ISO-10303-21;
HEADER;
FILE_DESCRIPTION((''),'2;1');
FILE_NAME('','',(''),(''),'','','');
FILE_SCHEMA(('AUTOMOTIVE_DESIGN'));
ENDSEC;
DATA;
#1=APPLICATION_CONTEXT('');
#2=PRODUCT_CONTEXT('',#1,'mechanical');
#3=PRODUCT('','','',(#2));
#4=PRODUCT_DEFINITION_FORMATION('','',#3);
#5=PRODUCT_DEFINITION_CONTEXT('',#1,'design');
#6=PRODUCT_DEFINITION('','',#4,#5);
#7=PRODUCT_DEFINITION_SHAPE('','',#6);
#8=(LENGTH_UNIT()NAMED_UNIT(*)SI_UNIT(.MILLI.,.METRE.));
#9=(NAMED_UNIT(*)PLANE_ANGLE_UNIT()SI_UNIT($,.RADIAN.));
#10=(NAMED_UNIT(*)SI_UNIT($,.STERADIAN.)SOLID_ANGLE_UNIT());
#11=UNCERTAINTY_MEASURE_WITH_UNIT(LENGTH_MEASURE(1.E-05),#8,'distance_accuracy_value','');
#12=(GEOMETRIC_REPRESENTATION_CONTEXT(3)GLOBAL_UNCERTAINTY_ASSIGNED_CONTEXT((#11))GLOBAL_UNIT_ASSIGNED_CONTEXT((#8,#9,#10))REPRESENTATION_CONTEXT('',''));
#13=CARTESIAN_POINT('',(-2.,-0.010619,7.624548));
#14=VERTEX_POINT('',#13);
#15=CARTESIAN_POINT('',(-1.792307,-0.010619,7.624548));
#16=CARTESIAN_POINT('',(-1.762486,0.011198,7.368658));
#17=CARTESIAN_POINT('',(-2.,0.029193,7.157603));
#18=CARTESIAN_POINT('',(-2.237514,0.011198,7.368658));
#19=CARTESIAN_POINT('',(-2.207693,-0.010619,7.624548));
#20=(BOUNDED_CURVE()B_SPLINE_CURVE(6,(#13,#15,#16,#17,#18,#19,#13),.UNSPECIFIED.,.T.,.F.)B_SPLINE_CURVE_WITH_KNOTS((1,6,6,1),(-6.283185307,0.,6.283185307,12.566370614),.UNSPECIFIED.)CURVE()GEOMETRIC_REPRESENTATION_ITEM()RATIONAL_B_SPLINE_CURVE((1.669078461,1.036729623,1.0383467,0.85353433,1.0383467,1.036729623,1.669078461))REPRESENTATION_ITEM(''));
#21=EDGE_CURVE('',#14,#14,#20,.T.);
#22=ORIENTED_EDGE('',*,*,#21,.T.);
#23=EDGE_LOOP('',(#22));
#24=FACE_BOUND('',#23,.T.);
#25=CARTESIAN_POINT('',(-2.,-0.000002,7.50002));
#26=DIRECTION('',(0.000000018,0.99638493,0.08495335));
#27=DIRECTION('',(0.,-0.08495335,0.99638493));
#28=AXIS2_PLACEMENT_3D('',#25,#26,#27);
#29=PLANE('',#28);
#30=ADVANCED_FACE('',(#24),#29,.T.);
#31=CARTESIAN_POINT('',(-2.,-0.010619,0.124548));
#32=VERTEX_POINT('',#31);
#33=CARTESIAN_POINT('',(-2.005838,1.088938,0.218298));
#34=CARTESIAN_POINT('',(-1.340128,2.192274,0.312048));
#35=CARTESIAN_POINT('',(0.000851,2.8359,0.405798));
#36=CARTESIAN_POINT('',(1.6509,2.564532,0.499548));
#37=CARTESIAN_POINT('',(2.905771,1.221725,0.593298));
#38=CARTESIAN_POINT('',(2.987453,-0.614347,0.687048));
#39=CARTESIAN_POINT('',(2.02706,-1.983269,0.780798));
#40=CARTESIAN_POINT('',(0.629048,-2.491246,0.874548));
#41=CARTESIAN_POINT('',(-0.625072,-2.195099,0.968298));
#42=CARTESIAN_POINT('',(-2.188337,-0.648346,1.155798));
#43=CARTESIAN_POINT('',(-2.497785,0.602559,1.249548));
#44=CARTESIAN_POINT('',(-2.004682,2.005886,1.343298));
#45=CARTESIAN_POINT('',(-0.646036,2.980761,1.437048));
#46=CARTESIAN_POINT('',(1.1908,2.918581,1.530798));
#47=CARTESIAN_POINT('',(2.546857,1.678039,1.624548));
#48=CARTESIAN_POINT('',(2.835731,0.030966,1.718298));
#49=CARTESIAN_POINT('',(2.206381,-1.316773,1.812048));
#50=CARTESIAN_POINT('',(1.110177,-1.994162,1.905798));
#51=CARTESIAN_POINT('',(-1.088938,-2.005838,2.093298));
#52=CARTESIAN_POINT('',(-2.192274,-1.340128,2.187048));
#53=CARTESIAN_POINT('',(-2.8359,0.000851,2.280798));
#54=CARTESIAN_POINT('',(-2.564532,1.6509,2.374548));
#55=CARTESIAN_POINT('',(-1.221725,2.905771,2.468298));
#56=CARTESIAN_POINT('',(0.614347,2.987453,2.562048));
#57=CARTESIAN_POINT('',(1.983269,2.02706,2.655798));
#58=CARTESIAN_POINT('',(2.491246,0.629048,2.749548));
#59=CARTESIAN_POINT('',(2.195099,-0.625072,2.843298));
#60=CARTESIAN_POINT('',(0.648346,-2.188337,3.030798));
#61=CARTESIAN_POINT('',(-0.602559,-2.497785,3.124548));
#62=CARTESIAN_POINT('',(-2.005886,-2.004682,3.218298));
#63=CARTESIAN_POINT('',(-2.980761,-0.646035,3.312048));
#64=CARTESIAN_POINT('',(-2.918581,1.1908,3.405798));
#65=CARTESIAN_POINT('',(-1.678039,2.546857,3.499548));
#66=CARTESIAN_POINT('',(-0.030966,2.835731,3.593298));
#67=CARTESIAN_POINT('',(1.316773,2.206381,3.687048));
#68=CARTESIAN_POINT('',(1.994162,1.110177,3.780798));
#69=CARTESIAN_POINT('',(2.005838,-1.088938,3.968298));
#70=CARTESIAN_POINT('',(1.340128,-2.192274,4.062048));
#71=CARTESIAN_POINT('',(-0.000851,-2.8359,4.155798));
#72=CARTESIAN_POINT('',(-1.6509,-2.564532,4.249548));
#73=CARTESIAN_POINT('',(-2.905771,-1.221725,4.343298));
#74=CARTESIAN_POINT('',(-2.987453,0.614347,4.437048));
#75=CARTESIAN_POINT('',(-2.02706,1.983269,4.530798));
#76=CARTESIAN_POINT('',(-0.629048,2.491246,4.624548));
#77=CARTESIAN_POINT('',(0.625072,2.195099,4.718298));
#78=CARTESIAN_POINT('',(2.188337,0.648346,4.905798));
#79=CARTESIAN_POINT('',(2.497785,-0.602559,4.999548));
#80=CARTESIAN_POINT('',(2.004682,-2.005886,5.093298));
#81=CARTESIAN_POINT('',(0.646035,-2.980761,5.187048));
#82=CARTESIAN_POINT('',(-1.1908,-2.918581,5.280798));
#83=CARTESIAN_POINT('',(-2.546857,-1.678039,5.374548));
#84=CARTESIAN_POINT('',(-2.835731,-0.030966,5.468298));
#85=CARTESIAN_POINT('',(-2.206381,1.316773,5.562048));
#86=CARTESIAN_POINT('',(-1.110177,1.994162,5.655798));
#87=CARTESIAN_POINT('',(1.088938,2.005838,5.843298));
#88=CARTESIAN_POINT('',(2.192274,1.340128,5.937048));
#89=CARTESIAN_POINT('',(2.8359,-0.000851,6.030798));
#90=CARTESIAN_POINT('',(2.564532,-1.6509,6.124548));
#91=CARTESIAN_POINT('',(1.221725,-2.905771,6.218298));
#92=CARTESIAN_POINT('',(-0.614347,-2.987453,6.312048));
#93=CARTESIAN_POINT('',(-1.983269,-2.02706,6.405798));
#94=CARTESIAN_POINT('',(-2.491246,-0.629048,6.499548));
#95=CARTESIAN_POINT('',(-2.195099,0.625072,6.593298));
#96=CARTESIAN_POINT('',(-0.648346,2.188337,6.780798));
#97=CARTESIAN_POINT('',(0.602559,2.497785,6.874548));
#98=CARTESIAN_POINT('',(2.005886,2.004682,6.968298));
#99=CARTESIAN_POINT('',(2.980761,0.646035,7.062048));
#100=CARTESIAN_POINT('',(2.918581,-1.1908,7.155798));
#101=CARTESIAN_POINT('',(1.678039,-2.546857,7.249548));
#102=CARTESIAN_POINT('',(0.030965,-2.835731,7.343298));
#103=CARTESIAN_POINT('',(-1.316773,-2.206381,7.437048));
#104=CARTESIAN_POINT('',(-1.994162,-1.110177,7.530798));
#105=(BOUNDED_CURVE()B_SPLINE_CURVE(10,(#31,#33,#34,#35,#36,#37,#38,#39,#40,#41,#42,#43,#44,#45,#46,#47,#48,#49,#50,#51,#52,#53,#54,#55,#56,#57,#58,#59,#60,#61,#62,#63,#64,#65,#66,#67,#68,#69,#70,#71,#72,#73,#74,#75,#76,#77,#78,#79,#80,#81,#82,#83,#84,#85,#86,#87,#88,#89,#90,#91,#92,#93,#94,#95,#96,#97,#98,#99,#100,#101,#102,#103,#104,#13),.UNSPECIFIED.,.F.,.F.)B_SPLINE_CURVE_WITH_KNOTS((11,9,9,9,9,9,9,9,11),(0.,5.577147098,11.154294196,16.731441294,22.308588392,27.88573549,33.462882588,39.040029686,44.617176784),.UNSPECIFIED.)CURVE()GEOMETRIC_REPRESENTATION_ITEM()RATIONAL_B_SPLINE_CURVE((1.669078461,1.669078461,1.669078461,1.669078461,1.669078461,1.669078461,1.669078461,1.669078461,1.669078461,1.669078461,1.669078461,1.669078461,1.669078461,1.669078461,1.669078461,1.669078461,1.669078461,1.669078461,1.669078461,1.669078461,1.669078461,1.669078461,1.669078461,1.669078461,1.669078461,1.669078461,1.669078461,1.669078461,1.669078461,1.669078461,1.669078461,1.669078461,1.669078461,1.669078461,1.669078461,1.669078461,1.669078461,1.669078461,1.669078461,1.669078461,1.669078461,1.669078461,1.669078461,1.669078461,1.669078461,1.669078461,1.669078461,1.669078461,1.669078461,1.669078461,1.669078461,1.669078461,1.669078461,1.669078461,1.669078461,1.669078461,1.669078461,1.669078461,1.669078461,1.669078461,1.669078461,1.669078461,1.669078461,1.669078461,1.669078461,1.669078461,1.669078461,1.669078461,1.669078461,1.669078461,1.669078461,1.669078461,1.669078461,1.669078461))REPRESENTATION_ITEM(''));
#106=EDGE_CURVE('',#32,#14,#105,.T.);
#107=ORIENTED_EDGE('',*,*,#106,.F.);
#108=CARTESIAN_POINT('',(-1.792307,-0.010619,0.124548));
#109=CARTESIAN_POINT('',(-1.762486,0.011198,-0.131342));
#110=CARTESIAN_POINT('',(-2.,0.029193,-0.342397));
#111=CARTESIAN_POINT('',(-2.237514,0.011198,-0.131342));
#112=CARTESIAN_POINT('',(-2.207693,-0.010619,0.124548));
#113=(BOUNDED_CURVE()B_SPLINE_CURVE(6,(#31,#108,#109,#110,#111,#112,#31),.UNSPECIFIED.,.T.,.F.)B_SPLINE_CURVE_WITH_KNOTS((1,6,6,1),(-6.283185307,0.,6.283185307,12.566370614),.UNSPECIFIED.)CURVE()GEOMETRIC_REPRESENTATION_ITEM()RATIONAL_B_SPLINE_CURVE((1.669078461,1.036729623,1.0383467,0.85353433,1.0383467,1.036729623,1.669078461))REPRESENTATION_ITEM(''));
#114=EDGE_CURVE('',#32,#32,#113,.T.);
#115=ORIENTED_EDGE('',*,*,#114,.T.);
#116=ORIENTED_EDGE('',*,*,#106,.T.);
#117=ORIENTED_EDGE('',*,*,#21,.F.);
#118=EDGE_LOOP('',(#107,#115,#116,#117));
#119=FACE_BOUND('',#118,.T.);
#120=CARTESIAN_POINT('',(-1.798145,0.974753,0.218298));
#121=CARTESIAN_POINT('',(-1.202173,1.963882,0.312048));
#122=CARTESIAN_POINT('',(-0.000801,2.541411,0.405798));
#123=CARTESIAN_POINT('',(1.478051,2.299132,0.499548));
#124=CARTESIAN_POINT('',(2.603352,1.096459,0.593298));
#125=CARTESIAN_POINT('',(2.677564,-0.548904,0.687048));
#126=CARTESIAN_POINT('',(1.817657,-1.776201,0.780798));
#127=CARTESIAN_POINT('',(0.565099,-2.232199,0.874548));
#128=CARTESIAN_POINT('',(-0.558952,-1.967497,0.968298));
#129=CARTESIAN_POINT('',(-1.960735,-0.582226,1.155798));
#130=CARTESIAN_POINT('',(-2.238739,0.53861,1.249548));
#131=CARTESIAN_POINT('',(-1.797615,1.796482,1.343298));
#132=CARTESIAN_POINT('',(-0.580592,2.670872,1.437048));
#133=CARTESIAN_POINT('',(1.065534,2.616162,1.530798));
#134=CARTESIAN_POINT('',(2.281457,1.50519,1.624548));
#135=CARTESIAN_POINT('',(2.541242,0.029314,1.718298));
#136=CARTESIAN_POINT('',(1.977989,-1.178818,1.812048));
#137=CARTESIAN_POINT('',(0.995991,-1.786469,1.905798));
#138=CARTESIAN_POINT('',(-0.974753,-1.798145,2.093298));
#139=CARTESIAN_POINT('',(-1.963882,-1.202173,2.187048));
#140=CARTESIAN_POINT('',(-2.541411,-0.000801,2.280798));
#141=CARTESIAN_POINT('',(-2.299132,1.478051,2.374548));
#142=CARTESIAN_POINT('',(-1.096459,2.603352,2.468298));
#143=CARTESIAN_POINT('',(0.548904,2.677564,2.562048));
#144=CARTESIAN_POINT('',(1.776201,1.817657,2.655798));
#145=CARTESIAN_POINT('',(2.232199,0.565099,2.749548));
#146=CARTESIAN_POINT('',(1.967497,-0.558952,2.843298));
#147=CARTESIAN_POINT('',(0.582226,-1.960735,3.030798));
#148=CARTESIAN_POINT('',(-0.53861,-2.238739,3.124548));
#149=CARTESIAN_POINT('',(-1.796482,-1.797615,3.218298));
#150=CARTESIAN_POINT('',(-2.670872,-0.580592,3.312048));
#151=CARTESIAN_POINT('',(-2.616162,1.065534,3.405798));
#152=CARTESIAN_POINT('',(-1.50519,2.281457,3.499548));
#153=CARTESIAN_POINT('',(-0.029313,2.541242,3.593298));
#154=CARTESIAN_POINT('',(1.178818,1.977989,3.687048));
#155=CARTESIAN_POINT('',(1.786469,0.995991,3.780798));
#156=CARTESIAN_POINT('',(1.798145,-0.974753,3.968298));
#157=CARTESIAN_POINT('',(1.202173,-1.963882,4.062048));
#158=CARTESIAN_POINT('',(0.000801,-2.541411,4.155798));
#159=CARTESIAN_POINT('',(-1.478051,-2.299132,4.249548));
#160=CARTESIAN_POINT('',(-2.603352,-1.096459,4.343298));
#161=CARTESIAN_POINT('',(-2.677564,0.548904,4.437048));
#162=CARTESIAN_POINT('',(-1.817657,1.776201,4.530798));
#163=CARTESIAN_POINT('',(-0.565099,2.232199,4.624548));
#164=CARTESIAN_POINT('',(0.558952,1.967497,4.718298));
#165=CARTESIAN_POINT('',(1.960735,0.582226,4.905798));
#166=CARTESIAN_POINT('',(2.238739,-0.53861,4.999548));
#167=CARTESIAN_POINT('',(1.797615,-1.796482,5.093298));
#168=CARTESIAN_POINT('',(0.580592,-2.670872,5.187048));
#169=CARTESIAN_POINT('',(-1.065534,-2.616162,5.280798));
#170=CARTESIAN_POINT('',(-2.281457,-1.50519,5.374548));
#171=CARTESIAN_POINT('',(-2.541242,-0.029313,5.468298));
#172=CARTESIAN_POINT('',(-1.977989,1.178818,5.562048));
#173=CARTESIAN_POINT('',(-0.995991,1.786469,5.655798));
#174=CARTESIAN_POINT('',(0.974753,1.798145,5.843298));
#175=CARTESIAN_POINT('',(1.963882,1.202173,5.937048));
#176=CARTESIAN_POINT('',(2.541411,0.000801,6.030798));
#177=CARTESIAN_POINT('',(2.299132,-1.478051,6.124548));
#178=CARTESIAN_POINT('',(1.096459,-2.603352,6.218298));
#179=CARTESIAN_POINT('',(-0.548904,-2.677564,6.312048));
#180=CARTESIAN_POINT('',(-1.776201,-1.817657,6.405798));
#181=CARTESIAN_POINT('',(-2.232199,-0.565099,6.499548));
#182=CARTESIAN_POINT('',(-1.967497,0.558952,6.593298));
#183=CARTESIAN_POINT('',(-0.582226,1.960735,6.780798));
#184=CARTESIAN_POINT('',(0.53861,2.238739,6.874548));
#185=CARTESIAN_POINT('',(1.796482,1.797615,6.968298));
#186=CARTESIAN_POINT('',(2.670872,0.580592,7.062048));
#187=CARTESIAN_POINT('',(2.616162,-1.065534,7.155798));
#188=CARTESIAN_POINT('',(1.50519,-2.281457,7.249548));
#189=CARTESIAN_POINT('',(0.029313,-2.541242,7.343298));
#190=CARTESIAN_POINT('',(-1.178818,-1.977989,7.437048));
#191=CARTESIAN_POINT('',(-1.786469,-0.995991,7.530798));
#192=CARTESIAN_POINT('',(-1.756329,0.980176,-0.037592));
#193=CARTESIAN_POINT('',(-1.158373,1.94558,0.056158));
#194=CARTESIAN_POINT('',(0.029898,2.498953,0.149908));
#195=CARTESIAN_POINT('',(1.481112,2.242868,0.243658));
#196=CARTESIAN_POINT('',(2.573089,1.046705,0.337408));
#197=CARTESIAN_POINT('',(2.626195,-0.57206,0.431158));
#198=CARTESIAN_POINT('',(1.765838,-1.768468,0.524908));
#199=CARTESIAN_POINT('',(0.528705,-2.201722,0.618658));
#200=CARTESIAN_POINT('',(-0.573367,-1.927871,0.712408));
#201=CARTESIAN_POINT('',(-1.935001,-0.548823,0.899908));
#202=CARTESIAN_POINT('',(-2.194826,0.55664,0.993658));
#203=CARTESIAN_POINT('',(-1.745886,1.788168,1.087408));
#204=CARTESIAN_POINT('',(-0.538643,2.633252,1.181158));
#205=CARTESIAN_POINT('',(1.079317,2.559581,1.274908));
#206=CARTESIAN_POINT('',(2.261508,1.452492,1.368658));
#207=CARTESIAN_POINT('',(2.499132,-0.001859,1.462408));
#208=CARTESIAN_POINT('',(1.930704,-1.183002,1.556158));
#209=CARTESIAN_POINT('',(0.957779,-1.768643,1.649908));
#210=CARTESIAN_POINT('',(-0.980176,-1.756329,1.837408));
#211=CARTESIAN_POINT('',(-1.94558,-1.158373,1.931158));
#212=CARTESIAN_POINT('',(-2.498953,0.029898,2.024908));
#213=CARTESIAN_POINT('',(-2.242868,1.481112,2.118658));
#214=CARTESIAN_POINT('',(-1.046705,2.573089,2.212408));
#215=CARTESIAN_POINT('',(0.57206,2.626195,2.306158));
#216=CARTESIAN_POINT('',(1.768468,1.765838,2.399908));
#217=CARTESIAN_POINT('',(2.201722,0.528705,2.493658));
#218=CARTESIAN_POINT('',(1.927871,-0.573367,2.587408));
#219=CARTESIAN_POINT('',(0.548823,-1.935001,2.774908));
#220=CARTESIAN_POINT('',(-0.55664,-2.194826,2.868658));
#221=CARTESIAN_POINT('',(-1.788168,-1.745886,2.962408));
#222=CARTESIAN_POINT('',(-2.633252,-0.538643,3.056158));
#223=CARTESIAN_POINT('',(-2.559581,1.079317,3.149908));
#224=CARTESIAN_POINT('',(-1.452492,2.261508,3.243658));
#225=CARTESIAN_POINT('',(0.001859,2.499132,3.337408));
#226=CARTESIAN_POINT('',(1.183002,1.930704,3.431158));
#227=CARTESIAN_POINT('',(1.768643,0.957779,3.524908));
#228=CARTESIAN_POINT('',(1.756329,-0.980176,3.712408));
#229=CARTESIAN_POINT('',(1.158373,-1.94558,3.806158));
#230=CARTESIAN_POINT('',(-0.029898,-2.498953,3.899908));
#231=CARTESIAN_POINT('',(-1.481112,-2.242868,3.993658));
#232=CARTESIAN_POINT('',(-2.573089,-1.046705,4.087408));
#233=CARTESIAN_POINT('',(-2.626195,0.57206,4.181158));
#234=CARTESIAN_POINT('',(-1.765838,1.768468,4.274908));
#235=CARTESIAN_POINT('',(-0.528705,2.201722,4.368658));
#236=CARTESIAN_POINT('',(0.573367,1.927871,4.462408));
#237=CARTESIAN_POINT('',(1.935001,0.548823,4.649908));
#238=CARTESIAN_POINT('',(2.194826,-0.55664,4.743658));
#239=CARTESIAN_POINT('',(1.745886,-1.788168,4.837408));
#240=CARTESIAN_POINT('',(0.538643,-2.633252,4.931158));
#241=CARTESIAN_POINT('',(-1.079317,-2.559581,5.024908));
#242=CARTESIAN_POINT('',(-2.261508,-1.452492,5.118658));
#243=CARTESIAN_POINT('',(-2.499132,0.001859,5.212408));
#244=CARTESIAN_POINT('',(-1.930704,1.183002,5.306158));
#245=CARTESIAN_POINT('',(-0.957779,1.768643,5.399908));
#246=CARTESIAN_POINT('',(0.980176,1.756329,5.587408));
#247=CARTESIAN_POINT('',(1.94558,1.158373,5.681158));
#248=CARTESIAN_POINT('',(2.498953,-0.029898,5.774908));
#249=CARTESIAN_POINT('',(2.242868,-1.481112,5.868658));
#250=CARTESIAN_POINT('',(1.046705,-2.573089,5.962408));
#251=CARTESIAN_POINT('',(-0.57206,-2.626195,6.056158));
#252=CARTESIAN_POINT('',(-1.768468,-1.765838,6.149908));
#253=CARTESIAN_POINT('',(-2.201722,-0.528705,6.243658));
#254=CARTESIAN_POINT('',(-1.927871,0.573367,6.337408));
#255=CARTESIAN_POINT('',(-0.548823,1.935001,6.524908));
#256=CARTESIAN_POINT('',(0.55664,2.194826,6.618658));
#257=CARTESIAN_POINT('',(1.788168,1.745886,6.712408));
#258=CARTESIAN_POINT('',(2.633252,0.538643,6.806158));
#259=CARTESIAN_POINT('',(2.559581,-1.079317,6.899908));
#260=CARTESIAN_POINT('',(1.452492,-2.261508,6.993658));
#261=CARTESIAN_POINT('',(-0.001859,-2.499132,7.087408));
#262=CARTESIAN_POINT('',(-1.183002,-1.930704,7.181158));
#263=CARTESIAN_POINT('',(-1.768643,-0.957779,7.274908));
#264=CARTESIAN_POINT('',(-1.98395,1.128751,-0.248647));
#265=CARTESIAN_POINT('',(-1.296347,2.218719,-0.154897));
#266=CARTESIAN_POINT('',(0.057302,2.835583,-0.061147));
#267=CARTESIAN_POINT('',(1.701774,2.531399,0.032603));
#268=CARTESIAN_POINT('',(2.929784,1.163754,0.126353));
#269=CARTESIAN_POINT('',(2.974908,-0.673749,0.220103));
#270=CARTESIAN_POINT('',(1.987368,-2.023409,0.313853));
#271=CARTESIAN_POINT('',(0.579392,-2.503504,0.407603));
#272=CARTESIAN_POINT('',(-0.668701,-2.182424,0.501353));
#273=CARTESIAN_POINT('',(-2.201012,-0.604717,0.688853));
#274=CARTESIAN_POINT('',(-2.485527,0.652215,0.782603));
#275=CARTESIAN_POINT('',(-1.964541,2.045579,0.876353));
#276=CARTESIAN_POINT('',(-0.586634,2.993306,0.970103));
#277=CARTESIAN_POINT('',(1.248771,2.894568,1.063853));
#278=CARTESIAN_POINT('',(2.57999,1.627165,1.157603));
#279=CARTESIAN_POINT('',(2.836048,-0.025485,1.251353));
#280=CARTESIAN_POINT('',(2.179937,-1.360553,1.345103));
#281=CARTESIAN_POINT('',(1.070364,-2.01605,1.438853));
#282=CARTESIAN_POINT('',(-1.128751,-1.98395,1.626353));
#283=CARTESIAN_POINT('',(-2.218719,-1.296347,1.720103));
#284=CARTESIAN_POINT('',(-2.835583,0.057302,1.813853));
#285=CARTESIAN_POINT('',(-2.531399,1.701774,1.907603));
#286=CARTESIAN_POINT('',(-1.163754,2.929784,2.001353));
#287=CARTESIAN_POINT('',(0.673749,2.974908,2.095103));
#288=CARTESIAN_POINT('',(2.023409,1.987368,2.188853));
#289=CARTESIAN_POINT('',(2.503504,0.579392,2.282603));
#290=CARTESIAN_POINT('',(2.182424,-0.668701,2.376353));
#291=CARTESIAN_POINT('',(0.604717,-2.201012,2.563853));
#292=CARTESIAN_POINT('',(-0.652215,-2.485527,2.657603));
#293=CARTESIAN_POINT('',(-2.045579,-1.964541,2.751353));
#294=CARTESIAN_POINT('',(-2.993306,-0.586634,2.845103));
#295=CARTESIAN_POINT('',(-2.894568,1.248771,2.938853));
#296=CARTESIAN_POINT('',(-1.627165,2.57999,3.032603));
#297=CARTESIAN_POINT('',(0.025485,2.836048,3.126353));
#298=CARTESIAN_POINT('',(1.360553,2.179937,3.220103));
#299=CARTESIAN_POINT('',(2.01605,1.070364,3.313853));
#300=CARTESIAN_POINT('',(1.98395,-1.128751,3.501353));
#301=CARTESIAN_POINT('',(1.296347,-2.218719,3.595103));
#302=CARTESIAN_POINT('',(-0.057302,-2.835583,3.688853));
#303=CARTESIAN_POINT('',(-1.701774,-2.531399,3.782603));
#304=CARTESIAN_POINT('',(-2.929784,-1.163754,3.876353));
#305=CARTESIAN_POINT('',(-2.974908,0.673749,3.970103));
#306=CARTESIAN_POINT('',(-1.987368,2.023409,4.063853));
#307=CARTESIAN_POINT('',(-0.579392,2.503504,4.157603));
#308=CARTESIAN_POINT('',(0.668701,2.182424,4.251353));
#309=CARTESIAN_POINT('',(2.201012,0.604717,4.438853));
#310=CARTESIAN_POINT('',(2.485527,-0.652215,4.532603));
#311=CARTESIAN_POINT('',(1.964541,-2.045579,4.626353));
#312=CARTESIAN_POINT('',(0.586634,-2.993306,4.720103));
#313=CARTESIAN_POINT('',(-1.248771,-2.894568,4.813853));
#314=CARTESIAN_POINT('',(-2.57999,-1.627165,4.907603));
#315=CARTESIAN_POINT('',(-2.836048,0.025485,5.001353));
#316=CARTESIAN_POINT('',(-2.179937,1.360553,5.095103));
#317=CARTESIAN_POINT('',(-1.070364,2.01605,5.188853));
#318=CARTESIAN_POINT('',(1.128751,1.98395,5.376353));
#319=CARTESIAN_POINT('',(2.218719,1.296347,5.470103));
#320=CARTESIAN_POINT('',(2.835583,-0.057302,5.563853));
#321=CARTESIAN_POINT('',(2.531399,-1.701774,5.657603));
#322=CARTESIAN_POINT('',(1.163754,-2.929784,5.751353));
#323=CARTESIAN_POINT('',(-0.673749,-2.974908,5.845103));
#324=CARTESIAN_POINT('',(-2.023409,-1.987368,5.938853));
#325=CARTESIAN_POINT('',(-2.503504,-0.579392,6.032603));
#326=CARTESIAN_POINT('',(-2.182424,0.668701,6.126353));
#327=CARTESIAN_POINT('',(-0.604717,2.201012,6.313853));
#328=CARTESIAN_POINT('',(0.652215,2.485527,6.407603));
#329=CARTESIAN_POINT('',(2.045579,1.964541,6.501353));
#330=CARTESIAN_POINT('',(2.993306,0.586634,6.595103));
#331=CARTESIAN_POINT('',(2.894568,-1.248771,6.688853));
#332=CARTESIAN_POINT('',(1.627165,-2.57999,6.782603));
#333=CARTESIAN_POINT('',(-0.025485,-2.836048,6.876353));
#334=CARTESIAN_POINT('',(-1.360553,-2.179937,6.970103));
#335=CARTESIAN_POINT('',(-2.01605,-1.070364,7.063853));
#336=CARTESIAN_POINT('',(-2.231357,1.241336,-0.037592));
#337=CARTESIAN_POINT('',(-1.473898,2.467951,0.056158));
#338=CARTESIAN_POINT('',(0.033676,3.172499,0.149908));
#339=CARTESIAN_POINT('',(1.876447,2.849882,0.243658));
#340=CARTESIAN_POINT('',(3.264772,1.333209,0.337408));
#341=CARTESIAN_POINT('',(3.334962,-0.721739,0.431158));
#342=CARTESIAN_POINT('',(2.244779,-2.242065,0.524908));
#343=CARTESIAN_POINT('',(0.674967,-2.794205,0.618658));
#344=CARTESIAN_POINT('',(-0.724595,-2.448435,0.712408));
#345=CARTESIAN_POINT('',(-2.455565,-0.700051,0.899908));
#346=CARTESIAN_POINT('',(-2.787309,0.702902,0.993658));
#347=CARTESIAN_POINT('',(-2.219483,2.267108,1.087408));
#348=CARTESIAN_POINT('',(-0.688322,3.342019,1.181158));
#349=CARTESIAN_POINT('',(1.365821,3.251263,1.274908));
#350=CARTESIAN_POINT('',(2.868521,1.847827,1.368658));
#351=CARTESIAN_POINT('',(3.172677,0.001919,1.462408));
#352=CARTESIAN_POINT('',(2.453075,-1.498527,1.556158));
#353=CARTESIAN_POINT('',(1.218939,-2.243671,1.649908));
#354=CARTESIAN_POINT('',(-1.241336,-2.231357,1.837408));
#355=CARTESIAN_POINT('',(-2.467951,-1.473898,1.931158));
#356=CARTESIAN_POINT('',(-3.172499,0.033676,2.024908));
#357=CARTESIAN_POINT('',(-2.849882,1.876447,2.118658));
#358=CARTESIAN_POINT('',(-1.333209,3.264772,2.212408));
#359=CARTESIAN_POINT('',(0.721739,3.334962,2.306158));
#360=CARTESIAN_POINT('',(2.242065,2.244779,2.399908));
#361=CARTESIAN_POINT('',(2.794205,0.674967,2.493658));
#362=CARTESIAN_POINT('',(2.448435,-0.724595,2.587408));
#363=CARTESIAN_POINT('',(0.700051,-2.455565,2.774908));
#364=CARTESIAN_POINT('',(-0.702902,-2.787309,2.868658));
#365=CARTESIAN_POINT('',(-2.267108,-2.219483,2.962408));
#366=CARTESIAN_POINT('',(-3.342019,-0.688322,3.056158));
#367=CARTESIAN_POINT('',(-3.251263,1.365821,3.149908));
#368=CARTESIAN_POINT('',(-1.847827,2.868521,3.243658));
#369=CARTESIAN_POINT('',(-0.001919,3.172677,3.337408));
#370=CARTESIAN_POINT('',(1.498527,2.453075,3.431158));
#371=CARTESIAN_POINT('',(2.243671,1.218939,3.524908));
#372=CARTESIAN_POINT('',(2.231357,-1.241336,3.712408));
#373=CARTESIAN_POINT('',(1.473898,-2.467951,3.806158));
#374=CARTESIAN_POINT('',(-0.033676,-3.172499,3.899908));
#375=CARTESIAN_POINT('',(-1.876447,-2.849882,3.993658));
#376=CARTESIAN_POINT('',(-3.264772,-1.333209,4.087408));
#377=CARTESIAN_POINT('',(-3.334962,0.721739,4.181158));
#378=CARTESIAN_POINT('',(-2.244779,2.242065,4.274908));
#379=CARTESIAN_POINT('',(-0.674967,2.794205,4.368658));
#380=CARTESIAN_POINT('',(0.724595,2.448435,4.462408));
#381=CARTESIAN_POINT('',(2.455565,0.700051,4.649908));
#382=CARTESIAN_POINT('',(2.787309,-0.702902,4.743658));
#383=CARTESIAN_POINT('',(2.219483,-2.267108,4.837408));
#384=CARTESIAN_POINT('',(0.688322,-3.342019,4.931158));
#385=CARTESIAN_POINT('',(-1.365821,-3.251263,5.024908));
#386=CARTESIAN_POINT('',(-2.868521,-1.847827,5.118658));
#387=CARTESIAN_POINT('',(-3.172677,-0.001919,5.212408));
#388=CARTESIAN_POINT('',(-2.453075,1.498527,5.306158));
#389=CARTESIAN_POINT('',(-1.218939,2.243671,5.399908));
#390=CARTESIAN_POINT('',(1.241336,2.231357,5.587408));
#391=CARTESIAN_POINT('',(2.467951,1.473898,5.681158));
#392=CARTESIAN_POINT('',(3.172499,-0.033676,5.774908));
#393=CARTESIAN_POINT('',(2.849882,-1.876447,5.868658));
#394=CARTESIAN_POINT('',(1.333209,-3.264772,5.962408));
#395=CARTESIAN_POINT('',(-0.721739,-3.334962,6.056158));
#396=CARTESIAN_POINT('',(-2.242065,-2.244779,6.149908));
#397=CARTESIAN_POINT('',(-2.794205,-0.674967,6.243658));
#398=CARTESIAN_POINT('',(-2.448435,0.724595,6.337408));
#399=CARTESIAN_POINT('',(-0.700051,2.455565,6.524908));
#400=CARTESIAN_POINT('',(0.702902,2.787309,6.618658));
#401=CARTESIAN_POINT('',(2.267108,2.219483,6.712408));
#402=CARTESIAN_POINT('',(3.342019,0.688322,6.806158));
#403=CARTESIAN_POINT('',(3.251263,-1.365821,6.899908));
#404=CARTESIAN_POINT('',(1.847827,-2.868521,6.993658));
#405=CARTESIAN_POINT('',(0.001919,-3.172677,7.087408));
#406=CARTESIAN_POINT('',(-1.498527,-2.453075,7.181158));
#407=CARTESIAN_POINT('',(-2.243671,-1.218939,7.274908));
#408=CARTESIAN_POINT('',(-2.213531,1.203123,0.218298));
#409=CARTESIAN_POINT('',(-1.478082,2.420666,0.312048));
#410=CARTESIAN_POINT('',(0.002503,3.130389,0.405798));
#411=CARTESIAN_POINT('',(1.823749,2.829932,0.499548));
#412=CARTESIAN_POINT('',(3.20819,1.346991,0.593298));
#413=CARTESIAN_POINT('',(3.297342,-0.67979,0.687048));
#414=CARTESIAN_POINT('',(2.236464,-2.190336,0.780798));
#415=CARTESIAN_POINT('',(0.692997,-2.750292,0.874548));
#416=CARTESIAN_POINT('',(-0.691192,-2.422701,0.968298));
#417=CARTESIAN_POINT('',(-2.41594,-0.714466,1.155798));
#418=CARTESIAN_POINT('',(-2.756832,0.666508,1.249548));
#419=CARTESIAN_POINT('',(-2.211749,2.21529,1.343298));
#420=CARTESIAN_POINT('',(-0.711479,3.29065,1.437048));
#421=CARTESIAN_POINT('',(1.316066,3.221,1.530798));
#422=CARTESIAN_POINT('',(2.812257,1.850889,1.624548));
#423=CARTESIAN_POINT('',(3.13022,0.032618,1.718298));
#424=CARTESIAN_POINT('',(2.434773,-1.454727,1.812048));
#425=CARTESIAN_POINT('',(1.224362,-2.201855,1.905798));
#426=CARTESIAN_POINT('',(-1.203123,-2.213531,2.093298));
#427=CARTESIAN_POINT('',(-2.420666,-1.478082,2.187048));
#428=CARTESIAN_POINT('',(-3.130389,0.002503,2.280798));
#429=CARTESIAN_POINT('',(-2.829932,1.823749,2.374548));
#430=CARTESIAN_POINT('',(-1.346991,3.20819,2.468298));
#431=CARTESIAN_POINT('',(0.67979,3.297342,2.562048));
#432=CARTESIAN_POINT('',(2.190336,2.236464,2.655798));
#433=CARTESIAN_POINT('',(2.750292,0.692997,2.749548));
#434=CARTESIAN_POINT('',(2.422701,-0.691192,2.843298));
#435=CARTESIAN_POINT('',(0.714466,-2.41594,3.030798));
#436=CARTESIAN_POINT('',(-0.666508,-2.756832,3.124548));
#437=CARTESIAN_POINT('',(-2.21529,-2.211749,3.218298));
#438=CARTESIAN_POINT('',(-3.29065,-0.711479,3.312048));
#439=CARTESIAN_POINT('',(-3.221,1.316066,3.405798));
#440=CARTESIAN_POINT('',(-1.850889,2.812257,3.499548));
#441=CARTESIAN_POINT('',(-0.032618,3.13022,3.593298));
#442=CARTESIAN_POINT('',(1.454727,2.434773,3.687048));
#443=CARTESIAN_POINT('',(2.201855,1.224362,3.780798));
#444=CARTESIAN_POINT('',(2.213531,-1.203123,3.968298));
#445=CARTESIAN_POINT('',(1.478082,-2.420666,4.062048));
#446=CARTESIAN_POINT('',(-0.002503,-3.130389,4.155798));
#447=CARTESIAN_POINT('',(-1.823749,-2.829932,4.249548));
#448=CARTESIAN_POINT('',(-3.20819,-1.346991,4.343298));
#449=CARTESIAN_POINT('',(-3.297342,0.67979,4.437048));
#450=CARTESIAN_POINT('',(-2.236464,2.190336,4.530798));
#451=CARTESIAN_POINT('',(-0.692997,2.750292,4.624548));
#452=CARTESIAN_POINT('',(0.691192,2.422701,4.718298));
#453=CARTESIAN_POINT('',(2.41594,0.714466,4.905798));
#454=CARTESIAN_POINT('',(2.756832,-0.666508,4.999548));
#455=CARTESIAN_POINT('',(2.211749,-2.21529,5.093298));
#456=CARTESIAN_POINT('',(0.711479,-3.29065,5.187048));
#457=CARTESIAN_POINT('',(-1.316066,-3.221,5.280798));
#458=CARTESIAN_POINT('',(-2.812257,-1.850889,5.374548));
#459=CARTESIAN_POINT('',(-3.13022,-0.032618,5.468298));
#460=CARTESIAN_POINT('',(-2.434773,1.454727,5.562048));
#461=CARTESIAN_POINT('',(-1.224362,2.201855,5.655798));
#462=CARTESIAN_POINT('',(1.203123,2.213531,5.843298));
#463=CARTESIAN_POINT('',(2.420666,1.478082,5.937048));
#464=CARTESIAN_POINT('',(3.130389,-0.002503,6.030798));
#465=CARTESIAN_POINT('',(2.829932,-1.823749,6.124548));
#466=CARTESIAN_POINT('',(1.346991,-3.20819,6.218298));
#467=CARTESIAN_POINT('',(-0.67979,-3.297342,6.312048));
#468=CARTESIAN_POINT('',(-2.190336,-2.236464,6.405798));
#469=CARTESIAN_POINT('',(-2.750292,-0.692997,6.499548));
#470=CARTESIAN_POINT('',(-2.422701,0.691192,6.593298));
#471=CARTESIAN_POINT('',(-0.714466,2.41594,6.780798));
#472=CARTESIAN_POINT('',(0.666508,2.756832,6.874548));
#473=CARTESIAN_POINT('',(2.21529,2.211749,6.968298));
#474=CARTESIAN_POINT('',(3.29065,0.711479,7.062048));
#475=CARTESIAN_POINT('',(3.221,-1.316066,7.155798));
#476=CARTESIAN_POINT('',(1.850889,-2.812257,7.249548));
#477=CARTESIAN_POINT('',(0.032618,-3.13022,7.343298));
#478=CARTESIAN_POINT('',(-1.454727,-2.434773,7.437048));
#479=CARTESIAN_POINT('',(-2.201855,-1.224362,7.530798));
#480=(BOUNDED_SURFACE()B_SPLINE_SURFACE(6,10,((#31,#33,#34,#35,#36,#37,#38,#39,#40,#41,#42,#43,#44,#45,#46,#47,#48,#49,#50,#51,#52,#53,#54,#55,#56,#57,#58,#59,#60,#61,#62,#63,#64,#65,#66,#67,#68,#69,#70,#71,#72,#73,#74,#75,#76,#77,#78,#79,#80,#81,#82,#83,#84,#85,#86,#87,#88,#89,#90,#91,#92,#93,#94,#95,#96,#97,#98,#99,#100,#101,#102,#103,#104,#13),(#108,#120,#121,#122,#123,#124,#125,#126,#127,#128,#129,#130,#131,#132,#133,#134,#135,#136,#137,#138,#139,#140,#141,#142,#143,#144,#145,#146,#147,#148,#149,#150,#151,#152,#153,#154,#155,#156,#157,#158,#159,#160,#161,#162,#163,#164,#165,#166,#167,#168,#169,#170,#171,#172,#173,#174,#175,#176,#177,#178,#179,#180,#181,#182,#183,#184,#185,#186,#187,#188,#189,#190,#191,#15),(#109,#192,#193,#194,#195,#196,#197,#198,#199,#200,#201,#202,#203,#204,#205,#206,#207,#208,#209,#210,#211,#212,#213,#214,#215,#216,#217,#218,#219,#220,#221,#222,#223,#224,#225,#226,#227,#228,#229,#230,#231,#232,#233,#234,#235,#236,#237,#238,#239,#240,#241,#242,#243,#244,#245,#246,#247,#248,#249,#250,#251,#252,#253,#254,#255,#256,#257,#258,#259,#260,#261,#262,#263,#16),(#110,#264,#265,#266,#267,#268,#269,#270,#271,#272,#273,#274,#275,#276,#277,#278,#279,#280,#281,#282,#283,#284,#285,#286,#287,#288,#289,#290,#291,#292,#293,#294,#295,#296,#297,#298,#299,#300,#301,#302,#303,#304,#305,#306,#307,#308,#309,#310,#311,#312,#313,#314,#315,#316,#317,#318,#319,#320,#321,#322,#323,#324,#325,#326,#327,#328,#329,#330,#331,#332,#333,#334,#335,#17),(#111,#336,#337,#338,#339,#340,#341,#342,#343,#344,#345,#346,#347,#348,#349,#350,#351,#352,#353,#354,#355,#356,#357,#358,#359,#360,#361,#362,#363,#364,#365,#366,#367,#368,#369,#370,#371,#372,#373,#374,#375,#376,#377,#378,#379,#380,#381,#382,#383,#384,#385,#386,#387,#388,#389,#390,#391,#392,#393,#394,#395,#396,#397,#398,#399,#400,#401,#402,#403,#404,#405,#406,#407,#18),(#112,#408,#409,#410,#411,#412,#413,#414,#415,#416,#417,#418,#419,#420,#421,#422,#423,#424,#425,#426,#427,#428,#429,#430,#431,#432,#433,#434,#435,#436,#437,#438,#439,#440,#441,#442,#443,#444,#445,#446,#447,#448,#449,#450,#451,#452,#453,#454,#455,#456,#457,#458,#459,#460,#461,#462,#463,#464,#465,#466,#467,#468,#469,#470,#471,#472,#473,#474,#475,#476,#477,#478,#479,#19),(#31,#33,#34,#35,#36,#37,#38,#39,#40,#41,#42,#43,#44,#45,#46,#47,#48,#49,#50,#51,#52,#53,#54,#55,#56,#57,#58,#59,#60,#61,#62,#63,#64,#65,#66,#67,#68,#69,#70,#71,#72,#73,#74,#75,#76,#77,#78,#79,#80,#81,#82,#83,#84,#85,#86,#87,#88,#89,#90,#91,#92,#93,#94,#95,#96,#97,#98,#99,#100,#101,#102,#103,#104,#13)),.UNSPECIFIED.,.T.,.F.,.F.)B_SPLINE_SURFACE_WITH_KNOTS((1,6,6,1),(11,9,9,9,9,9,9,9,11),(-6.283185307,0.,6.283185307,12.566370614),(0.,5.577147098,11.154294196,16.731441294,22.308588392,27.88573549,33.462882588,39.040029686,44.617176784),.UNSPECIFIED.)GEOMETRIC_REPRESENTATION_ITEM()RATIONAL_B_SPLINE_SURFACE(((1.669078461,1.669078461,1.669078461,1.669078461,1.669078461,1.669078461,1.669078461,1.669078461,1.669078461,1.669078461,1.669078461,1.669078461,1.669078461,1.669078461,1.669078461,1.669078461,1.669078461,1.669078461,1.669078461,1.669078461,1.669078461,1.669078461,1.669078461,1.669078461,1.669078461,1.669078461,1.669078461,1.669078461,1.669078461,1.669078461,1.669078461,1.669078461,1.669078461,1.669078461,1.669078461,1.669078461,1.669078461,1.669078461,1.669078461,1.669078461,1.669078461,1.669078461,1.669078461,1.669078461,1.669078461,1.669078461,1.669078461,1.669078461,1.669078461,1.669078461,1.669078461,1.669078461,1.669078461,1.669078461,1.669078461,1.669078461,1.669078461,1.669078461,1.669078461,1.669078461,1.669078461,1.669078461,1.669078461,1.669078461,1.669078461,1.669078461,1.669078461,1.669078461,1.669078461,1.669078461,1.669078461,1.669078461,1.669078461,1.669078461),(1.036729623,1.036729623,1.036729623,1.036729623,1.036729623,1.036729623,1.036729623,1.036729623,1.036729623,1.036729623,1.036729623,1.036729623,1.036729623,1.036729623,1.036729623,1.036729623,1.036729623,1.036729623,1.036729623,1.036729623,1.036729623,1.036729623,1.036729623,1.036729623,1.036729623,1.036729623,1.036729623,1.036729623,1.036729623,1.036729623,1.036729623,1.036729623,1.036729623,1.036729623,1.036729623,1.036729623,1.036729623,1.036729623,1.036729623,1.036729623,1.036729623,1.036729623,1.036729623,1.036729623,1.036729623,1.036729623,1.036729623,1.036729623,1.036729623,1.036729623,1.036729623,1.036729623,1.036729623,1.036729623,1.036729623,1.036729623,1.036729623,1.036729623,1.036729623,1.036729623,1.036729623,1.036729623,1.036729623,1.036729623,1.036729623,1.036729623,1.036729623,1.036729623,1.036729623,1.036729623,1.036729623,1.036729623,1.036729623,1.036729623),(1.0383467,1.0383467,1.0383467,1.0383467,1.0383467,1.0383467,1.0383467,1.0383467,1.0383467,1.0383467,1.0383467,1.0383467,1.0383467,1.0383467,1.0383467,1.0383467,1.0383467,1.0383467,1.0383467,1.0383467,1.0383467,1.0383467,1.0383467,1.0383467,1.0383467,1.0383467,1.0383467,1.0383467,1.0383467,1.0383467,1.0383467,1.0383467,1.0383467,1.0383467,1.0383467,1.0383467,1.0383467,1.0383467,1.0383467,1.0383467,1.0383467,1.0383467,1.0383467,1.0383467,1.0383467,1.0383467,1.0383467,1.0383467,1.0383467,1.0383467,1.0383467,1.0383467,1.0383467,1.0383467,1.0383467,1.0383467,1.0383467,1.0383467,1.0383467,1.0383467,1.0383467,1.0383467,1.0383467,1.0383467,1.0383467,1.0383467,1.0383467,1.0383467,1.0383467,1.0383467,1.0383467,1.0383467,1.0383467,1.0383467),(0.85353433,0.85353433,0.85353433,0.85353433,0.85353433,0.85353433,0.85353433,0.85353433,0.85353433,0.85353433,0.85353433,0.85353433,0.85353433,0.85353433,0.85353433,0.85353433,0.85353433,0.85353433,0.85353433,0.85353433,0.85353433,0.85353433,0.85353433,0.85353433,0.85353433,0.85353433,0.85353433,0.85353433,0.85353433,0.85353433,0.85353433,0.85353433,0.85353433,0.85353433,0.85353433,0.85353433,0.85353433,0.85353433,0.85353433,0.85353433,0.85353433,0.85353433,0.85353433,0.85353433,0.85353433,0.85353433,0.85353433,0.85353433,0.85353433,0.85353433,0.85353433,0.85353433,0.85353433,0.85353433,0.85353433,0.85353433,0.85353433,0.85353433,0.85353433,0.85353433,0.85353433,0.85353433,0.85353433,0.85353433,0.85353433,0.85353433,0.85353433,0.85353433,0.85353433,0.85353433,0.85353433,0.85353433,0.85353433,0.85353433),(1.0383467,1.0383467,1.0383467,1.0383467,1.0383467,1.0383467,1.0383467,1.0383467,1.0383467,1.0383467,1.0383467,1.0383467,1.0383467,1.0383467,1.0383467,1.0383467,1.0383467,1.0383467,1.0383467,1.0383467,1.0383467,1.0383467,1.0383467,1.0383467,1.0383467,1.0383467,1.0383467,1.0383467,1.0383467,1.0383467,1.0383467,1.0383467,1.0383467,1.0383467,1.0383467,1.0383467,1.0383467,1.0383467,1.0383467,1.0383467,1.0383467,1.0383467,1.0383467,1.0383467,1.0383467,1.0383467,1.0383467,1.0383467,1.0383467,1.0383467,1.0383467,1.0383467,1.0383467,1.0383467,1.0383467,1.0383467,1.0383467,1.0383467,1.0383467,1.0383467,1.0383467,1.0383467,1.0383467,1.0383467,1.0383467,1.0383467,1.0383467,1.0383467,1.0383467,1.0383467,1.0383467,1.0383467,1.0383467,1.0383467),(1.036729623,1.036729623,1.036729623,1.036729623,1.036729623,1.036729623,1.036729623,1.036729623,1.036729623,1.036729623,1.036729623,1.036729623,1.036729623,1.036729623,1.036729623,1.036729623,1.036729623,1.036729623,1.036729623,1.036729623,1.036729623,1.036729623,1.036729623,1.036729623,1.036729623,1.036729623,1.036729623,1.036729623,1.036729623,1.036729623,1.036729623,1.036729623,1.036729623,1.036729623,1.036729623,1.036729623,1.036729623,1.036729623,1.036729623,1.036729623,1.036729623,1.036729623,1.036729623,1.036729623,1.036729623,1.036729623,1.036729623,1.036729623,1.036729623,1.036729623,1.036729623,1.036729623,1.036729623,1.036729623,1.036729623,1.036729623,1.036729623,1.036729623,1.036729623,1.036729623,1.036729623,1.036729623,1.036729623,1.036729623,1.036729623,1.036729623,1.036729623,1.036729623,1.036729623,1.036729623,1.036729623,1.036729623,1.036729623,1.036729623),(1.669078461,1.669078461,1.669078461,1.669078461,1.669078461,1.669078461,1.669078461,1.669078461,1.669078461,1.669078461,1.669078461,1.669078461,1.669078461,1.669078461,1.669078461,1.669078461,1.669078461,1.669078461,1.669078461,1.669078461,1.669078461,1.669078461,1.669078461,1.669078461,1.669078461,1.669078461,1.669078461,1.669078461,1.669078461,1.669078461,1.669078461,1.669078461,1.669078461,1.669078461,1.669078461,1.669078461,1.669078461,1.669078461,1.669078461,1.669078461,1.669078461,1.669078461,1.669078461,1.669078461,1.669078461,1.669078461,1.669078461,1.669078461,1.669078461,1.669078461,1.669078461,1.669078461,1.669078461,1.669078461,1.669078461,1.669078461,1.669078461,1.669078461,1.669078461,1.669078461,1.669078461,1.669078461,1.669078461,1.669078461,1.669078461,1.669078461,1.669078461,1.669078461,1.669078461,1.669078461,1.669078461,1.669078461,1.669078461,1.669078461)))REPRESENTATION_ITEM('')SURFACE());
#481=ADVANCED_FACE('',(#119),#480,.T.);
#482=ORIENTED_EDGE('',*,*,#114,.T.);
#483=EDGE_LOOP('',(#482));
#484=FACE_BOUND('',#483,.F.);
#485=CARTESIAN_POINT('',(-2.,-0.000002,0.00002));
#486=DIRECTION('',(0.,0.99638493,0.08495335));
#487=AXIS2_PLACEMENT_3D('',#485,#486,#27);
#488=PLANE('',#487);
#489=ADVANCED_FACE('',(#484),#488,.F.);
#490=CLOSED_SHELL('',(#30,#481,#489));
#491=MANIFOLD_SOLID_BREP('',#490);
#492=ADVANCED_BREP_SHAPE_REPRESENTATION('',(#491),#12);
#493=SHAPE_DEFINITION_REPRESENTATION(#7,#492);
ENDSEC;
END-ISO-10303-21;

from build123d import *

# Parameters (mm, degrees)
SWEEP1_PITCH       = 1.071428571
SWEEP1_HEIGHT      = 7.5
SWEEP1_RADIUS      = 2
SWEEP1_START_ANGLE = -180
SWEEP1_PROFILE_R   = 0.125


with BuildPart() as part:
    # Sweep1: sweep along a helix
    with BuildLine() as sweep1_path:
        add(Helix(SWEEP1_PITCH, SWEEP1_HEIGHT, SWEEP1_RADIUS, center=(0, 0, 0), direction=(0, 0, 1), lefthand=True, mode=Mode.PRIVATE).rotate(Axis((0, 0, 0), (0, 0, 1)), SWEEP1_START_ANGLE))
    # Sweep1 profile (on start of the path) → Sweep1 (sweep)
    with BuildSketch(Plane(origin=(-2, 0, 0), x_dir=(0, -0.08495335, 0.99638493), z_dir=(0, 0.99638493, 0.08495335))):
        Circle(SWEEP1_PROFILE_R)
    sweep(path=sweep1_path.line, is_frenet=True)


solid = part.part
